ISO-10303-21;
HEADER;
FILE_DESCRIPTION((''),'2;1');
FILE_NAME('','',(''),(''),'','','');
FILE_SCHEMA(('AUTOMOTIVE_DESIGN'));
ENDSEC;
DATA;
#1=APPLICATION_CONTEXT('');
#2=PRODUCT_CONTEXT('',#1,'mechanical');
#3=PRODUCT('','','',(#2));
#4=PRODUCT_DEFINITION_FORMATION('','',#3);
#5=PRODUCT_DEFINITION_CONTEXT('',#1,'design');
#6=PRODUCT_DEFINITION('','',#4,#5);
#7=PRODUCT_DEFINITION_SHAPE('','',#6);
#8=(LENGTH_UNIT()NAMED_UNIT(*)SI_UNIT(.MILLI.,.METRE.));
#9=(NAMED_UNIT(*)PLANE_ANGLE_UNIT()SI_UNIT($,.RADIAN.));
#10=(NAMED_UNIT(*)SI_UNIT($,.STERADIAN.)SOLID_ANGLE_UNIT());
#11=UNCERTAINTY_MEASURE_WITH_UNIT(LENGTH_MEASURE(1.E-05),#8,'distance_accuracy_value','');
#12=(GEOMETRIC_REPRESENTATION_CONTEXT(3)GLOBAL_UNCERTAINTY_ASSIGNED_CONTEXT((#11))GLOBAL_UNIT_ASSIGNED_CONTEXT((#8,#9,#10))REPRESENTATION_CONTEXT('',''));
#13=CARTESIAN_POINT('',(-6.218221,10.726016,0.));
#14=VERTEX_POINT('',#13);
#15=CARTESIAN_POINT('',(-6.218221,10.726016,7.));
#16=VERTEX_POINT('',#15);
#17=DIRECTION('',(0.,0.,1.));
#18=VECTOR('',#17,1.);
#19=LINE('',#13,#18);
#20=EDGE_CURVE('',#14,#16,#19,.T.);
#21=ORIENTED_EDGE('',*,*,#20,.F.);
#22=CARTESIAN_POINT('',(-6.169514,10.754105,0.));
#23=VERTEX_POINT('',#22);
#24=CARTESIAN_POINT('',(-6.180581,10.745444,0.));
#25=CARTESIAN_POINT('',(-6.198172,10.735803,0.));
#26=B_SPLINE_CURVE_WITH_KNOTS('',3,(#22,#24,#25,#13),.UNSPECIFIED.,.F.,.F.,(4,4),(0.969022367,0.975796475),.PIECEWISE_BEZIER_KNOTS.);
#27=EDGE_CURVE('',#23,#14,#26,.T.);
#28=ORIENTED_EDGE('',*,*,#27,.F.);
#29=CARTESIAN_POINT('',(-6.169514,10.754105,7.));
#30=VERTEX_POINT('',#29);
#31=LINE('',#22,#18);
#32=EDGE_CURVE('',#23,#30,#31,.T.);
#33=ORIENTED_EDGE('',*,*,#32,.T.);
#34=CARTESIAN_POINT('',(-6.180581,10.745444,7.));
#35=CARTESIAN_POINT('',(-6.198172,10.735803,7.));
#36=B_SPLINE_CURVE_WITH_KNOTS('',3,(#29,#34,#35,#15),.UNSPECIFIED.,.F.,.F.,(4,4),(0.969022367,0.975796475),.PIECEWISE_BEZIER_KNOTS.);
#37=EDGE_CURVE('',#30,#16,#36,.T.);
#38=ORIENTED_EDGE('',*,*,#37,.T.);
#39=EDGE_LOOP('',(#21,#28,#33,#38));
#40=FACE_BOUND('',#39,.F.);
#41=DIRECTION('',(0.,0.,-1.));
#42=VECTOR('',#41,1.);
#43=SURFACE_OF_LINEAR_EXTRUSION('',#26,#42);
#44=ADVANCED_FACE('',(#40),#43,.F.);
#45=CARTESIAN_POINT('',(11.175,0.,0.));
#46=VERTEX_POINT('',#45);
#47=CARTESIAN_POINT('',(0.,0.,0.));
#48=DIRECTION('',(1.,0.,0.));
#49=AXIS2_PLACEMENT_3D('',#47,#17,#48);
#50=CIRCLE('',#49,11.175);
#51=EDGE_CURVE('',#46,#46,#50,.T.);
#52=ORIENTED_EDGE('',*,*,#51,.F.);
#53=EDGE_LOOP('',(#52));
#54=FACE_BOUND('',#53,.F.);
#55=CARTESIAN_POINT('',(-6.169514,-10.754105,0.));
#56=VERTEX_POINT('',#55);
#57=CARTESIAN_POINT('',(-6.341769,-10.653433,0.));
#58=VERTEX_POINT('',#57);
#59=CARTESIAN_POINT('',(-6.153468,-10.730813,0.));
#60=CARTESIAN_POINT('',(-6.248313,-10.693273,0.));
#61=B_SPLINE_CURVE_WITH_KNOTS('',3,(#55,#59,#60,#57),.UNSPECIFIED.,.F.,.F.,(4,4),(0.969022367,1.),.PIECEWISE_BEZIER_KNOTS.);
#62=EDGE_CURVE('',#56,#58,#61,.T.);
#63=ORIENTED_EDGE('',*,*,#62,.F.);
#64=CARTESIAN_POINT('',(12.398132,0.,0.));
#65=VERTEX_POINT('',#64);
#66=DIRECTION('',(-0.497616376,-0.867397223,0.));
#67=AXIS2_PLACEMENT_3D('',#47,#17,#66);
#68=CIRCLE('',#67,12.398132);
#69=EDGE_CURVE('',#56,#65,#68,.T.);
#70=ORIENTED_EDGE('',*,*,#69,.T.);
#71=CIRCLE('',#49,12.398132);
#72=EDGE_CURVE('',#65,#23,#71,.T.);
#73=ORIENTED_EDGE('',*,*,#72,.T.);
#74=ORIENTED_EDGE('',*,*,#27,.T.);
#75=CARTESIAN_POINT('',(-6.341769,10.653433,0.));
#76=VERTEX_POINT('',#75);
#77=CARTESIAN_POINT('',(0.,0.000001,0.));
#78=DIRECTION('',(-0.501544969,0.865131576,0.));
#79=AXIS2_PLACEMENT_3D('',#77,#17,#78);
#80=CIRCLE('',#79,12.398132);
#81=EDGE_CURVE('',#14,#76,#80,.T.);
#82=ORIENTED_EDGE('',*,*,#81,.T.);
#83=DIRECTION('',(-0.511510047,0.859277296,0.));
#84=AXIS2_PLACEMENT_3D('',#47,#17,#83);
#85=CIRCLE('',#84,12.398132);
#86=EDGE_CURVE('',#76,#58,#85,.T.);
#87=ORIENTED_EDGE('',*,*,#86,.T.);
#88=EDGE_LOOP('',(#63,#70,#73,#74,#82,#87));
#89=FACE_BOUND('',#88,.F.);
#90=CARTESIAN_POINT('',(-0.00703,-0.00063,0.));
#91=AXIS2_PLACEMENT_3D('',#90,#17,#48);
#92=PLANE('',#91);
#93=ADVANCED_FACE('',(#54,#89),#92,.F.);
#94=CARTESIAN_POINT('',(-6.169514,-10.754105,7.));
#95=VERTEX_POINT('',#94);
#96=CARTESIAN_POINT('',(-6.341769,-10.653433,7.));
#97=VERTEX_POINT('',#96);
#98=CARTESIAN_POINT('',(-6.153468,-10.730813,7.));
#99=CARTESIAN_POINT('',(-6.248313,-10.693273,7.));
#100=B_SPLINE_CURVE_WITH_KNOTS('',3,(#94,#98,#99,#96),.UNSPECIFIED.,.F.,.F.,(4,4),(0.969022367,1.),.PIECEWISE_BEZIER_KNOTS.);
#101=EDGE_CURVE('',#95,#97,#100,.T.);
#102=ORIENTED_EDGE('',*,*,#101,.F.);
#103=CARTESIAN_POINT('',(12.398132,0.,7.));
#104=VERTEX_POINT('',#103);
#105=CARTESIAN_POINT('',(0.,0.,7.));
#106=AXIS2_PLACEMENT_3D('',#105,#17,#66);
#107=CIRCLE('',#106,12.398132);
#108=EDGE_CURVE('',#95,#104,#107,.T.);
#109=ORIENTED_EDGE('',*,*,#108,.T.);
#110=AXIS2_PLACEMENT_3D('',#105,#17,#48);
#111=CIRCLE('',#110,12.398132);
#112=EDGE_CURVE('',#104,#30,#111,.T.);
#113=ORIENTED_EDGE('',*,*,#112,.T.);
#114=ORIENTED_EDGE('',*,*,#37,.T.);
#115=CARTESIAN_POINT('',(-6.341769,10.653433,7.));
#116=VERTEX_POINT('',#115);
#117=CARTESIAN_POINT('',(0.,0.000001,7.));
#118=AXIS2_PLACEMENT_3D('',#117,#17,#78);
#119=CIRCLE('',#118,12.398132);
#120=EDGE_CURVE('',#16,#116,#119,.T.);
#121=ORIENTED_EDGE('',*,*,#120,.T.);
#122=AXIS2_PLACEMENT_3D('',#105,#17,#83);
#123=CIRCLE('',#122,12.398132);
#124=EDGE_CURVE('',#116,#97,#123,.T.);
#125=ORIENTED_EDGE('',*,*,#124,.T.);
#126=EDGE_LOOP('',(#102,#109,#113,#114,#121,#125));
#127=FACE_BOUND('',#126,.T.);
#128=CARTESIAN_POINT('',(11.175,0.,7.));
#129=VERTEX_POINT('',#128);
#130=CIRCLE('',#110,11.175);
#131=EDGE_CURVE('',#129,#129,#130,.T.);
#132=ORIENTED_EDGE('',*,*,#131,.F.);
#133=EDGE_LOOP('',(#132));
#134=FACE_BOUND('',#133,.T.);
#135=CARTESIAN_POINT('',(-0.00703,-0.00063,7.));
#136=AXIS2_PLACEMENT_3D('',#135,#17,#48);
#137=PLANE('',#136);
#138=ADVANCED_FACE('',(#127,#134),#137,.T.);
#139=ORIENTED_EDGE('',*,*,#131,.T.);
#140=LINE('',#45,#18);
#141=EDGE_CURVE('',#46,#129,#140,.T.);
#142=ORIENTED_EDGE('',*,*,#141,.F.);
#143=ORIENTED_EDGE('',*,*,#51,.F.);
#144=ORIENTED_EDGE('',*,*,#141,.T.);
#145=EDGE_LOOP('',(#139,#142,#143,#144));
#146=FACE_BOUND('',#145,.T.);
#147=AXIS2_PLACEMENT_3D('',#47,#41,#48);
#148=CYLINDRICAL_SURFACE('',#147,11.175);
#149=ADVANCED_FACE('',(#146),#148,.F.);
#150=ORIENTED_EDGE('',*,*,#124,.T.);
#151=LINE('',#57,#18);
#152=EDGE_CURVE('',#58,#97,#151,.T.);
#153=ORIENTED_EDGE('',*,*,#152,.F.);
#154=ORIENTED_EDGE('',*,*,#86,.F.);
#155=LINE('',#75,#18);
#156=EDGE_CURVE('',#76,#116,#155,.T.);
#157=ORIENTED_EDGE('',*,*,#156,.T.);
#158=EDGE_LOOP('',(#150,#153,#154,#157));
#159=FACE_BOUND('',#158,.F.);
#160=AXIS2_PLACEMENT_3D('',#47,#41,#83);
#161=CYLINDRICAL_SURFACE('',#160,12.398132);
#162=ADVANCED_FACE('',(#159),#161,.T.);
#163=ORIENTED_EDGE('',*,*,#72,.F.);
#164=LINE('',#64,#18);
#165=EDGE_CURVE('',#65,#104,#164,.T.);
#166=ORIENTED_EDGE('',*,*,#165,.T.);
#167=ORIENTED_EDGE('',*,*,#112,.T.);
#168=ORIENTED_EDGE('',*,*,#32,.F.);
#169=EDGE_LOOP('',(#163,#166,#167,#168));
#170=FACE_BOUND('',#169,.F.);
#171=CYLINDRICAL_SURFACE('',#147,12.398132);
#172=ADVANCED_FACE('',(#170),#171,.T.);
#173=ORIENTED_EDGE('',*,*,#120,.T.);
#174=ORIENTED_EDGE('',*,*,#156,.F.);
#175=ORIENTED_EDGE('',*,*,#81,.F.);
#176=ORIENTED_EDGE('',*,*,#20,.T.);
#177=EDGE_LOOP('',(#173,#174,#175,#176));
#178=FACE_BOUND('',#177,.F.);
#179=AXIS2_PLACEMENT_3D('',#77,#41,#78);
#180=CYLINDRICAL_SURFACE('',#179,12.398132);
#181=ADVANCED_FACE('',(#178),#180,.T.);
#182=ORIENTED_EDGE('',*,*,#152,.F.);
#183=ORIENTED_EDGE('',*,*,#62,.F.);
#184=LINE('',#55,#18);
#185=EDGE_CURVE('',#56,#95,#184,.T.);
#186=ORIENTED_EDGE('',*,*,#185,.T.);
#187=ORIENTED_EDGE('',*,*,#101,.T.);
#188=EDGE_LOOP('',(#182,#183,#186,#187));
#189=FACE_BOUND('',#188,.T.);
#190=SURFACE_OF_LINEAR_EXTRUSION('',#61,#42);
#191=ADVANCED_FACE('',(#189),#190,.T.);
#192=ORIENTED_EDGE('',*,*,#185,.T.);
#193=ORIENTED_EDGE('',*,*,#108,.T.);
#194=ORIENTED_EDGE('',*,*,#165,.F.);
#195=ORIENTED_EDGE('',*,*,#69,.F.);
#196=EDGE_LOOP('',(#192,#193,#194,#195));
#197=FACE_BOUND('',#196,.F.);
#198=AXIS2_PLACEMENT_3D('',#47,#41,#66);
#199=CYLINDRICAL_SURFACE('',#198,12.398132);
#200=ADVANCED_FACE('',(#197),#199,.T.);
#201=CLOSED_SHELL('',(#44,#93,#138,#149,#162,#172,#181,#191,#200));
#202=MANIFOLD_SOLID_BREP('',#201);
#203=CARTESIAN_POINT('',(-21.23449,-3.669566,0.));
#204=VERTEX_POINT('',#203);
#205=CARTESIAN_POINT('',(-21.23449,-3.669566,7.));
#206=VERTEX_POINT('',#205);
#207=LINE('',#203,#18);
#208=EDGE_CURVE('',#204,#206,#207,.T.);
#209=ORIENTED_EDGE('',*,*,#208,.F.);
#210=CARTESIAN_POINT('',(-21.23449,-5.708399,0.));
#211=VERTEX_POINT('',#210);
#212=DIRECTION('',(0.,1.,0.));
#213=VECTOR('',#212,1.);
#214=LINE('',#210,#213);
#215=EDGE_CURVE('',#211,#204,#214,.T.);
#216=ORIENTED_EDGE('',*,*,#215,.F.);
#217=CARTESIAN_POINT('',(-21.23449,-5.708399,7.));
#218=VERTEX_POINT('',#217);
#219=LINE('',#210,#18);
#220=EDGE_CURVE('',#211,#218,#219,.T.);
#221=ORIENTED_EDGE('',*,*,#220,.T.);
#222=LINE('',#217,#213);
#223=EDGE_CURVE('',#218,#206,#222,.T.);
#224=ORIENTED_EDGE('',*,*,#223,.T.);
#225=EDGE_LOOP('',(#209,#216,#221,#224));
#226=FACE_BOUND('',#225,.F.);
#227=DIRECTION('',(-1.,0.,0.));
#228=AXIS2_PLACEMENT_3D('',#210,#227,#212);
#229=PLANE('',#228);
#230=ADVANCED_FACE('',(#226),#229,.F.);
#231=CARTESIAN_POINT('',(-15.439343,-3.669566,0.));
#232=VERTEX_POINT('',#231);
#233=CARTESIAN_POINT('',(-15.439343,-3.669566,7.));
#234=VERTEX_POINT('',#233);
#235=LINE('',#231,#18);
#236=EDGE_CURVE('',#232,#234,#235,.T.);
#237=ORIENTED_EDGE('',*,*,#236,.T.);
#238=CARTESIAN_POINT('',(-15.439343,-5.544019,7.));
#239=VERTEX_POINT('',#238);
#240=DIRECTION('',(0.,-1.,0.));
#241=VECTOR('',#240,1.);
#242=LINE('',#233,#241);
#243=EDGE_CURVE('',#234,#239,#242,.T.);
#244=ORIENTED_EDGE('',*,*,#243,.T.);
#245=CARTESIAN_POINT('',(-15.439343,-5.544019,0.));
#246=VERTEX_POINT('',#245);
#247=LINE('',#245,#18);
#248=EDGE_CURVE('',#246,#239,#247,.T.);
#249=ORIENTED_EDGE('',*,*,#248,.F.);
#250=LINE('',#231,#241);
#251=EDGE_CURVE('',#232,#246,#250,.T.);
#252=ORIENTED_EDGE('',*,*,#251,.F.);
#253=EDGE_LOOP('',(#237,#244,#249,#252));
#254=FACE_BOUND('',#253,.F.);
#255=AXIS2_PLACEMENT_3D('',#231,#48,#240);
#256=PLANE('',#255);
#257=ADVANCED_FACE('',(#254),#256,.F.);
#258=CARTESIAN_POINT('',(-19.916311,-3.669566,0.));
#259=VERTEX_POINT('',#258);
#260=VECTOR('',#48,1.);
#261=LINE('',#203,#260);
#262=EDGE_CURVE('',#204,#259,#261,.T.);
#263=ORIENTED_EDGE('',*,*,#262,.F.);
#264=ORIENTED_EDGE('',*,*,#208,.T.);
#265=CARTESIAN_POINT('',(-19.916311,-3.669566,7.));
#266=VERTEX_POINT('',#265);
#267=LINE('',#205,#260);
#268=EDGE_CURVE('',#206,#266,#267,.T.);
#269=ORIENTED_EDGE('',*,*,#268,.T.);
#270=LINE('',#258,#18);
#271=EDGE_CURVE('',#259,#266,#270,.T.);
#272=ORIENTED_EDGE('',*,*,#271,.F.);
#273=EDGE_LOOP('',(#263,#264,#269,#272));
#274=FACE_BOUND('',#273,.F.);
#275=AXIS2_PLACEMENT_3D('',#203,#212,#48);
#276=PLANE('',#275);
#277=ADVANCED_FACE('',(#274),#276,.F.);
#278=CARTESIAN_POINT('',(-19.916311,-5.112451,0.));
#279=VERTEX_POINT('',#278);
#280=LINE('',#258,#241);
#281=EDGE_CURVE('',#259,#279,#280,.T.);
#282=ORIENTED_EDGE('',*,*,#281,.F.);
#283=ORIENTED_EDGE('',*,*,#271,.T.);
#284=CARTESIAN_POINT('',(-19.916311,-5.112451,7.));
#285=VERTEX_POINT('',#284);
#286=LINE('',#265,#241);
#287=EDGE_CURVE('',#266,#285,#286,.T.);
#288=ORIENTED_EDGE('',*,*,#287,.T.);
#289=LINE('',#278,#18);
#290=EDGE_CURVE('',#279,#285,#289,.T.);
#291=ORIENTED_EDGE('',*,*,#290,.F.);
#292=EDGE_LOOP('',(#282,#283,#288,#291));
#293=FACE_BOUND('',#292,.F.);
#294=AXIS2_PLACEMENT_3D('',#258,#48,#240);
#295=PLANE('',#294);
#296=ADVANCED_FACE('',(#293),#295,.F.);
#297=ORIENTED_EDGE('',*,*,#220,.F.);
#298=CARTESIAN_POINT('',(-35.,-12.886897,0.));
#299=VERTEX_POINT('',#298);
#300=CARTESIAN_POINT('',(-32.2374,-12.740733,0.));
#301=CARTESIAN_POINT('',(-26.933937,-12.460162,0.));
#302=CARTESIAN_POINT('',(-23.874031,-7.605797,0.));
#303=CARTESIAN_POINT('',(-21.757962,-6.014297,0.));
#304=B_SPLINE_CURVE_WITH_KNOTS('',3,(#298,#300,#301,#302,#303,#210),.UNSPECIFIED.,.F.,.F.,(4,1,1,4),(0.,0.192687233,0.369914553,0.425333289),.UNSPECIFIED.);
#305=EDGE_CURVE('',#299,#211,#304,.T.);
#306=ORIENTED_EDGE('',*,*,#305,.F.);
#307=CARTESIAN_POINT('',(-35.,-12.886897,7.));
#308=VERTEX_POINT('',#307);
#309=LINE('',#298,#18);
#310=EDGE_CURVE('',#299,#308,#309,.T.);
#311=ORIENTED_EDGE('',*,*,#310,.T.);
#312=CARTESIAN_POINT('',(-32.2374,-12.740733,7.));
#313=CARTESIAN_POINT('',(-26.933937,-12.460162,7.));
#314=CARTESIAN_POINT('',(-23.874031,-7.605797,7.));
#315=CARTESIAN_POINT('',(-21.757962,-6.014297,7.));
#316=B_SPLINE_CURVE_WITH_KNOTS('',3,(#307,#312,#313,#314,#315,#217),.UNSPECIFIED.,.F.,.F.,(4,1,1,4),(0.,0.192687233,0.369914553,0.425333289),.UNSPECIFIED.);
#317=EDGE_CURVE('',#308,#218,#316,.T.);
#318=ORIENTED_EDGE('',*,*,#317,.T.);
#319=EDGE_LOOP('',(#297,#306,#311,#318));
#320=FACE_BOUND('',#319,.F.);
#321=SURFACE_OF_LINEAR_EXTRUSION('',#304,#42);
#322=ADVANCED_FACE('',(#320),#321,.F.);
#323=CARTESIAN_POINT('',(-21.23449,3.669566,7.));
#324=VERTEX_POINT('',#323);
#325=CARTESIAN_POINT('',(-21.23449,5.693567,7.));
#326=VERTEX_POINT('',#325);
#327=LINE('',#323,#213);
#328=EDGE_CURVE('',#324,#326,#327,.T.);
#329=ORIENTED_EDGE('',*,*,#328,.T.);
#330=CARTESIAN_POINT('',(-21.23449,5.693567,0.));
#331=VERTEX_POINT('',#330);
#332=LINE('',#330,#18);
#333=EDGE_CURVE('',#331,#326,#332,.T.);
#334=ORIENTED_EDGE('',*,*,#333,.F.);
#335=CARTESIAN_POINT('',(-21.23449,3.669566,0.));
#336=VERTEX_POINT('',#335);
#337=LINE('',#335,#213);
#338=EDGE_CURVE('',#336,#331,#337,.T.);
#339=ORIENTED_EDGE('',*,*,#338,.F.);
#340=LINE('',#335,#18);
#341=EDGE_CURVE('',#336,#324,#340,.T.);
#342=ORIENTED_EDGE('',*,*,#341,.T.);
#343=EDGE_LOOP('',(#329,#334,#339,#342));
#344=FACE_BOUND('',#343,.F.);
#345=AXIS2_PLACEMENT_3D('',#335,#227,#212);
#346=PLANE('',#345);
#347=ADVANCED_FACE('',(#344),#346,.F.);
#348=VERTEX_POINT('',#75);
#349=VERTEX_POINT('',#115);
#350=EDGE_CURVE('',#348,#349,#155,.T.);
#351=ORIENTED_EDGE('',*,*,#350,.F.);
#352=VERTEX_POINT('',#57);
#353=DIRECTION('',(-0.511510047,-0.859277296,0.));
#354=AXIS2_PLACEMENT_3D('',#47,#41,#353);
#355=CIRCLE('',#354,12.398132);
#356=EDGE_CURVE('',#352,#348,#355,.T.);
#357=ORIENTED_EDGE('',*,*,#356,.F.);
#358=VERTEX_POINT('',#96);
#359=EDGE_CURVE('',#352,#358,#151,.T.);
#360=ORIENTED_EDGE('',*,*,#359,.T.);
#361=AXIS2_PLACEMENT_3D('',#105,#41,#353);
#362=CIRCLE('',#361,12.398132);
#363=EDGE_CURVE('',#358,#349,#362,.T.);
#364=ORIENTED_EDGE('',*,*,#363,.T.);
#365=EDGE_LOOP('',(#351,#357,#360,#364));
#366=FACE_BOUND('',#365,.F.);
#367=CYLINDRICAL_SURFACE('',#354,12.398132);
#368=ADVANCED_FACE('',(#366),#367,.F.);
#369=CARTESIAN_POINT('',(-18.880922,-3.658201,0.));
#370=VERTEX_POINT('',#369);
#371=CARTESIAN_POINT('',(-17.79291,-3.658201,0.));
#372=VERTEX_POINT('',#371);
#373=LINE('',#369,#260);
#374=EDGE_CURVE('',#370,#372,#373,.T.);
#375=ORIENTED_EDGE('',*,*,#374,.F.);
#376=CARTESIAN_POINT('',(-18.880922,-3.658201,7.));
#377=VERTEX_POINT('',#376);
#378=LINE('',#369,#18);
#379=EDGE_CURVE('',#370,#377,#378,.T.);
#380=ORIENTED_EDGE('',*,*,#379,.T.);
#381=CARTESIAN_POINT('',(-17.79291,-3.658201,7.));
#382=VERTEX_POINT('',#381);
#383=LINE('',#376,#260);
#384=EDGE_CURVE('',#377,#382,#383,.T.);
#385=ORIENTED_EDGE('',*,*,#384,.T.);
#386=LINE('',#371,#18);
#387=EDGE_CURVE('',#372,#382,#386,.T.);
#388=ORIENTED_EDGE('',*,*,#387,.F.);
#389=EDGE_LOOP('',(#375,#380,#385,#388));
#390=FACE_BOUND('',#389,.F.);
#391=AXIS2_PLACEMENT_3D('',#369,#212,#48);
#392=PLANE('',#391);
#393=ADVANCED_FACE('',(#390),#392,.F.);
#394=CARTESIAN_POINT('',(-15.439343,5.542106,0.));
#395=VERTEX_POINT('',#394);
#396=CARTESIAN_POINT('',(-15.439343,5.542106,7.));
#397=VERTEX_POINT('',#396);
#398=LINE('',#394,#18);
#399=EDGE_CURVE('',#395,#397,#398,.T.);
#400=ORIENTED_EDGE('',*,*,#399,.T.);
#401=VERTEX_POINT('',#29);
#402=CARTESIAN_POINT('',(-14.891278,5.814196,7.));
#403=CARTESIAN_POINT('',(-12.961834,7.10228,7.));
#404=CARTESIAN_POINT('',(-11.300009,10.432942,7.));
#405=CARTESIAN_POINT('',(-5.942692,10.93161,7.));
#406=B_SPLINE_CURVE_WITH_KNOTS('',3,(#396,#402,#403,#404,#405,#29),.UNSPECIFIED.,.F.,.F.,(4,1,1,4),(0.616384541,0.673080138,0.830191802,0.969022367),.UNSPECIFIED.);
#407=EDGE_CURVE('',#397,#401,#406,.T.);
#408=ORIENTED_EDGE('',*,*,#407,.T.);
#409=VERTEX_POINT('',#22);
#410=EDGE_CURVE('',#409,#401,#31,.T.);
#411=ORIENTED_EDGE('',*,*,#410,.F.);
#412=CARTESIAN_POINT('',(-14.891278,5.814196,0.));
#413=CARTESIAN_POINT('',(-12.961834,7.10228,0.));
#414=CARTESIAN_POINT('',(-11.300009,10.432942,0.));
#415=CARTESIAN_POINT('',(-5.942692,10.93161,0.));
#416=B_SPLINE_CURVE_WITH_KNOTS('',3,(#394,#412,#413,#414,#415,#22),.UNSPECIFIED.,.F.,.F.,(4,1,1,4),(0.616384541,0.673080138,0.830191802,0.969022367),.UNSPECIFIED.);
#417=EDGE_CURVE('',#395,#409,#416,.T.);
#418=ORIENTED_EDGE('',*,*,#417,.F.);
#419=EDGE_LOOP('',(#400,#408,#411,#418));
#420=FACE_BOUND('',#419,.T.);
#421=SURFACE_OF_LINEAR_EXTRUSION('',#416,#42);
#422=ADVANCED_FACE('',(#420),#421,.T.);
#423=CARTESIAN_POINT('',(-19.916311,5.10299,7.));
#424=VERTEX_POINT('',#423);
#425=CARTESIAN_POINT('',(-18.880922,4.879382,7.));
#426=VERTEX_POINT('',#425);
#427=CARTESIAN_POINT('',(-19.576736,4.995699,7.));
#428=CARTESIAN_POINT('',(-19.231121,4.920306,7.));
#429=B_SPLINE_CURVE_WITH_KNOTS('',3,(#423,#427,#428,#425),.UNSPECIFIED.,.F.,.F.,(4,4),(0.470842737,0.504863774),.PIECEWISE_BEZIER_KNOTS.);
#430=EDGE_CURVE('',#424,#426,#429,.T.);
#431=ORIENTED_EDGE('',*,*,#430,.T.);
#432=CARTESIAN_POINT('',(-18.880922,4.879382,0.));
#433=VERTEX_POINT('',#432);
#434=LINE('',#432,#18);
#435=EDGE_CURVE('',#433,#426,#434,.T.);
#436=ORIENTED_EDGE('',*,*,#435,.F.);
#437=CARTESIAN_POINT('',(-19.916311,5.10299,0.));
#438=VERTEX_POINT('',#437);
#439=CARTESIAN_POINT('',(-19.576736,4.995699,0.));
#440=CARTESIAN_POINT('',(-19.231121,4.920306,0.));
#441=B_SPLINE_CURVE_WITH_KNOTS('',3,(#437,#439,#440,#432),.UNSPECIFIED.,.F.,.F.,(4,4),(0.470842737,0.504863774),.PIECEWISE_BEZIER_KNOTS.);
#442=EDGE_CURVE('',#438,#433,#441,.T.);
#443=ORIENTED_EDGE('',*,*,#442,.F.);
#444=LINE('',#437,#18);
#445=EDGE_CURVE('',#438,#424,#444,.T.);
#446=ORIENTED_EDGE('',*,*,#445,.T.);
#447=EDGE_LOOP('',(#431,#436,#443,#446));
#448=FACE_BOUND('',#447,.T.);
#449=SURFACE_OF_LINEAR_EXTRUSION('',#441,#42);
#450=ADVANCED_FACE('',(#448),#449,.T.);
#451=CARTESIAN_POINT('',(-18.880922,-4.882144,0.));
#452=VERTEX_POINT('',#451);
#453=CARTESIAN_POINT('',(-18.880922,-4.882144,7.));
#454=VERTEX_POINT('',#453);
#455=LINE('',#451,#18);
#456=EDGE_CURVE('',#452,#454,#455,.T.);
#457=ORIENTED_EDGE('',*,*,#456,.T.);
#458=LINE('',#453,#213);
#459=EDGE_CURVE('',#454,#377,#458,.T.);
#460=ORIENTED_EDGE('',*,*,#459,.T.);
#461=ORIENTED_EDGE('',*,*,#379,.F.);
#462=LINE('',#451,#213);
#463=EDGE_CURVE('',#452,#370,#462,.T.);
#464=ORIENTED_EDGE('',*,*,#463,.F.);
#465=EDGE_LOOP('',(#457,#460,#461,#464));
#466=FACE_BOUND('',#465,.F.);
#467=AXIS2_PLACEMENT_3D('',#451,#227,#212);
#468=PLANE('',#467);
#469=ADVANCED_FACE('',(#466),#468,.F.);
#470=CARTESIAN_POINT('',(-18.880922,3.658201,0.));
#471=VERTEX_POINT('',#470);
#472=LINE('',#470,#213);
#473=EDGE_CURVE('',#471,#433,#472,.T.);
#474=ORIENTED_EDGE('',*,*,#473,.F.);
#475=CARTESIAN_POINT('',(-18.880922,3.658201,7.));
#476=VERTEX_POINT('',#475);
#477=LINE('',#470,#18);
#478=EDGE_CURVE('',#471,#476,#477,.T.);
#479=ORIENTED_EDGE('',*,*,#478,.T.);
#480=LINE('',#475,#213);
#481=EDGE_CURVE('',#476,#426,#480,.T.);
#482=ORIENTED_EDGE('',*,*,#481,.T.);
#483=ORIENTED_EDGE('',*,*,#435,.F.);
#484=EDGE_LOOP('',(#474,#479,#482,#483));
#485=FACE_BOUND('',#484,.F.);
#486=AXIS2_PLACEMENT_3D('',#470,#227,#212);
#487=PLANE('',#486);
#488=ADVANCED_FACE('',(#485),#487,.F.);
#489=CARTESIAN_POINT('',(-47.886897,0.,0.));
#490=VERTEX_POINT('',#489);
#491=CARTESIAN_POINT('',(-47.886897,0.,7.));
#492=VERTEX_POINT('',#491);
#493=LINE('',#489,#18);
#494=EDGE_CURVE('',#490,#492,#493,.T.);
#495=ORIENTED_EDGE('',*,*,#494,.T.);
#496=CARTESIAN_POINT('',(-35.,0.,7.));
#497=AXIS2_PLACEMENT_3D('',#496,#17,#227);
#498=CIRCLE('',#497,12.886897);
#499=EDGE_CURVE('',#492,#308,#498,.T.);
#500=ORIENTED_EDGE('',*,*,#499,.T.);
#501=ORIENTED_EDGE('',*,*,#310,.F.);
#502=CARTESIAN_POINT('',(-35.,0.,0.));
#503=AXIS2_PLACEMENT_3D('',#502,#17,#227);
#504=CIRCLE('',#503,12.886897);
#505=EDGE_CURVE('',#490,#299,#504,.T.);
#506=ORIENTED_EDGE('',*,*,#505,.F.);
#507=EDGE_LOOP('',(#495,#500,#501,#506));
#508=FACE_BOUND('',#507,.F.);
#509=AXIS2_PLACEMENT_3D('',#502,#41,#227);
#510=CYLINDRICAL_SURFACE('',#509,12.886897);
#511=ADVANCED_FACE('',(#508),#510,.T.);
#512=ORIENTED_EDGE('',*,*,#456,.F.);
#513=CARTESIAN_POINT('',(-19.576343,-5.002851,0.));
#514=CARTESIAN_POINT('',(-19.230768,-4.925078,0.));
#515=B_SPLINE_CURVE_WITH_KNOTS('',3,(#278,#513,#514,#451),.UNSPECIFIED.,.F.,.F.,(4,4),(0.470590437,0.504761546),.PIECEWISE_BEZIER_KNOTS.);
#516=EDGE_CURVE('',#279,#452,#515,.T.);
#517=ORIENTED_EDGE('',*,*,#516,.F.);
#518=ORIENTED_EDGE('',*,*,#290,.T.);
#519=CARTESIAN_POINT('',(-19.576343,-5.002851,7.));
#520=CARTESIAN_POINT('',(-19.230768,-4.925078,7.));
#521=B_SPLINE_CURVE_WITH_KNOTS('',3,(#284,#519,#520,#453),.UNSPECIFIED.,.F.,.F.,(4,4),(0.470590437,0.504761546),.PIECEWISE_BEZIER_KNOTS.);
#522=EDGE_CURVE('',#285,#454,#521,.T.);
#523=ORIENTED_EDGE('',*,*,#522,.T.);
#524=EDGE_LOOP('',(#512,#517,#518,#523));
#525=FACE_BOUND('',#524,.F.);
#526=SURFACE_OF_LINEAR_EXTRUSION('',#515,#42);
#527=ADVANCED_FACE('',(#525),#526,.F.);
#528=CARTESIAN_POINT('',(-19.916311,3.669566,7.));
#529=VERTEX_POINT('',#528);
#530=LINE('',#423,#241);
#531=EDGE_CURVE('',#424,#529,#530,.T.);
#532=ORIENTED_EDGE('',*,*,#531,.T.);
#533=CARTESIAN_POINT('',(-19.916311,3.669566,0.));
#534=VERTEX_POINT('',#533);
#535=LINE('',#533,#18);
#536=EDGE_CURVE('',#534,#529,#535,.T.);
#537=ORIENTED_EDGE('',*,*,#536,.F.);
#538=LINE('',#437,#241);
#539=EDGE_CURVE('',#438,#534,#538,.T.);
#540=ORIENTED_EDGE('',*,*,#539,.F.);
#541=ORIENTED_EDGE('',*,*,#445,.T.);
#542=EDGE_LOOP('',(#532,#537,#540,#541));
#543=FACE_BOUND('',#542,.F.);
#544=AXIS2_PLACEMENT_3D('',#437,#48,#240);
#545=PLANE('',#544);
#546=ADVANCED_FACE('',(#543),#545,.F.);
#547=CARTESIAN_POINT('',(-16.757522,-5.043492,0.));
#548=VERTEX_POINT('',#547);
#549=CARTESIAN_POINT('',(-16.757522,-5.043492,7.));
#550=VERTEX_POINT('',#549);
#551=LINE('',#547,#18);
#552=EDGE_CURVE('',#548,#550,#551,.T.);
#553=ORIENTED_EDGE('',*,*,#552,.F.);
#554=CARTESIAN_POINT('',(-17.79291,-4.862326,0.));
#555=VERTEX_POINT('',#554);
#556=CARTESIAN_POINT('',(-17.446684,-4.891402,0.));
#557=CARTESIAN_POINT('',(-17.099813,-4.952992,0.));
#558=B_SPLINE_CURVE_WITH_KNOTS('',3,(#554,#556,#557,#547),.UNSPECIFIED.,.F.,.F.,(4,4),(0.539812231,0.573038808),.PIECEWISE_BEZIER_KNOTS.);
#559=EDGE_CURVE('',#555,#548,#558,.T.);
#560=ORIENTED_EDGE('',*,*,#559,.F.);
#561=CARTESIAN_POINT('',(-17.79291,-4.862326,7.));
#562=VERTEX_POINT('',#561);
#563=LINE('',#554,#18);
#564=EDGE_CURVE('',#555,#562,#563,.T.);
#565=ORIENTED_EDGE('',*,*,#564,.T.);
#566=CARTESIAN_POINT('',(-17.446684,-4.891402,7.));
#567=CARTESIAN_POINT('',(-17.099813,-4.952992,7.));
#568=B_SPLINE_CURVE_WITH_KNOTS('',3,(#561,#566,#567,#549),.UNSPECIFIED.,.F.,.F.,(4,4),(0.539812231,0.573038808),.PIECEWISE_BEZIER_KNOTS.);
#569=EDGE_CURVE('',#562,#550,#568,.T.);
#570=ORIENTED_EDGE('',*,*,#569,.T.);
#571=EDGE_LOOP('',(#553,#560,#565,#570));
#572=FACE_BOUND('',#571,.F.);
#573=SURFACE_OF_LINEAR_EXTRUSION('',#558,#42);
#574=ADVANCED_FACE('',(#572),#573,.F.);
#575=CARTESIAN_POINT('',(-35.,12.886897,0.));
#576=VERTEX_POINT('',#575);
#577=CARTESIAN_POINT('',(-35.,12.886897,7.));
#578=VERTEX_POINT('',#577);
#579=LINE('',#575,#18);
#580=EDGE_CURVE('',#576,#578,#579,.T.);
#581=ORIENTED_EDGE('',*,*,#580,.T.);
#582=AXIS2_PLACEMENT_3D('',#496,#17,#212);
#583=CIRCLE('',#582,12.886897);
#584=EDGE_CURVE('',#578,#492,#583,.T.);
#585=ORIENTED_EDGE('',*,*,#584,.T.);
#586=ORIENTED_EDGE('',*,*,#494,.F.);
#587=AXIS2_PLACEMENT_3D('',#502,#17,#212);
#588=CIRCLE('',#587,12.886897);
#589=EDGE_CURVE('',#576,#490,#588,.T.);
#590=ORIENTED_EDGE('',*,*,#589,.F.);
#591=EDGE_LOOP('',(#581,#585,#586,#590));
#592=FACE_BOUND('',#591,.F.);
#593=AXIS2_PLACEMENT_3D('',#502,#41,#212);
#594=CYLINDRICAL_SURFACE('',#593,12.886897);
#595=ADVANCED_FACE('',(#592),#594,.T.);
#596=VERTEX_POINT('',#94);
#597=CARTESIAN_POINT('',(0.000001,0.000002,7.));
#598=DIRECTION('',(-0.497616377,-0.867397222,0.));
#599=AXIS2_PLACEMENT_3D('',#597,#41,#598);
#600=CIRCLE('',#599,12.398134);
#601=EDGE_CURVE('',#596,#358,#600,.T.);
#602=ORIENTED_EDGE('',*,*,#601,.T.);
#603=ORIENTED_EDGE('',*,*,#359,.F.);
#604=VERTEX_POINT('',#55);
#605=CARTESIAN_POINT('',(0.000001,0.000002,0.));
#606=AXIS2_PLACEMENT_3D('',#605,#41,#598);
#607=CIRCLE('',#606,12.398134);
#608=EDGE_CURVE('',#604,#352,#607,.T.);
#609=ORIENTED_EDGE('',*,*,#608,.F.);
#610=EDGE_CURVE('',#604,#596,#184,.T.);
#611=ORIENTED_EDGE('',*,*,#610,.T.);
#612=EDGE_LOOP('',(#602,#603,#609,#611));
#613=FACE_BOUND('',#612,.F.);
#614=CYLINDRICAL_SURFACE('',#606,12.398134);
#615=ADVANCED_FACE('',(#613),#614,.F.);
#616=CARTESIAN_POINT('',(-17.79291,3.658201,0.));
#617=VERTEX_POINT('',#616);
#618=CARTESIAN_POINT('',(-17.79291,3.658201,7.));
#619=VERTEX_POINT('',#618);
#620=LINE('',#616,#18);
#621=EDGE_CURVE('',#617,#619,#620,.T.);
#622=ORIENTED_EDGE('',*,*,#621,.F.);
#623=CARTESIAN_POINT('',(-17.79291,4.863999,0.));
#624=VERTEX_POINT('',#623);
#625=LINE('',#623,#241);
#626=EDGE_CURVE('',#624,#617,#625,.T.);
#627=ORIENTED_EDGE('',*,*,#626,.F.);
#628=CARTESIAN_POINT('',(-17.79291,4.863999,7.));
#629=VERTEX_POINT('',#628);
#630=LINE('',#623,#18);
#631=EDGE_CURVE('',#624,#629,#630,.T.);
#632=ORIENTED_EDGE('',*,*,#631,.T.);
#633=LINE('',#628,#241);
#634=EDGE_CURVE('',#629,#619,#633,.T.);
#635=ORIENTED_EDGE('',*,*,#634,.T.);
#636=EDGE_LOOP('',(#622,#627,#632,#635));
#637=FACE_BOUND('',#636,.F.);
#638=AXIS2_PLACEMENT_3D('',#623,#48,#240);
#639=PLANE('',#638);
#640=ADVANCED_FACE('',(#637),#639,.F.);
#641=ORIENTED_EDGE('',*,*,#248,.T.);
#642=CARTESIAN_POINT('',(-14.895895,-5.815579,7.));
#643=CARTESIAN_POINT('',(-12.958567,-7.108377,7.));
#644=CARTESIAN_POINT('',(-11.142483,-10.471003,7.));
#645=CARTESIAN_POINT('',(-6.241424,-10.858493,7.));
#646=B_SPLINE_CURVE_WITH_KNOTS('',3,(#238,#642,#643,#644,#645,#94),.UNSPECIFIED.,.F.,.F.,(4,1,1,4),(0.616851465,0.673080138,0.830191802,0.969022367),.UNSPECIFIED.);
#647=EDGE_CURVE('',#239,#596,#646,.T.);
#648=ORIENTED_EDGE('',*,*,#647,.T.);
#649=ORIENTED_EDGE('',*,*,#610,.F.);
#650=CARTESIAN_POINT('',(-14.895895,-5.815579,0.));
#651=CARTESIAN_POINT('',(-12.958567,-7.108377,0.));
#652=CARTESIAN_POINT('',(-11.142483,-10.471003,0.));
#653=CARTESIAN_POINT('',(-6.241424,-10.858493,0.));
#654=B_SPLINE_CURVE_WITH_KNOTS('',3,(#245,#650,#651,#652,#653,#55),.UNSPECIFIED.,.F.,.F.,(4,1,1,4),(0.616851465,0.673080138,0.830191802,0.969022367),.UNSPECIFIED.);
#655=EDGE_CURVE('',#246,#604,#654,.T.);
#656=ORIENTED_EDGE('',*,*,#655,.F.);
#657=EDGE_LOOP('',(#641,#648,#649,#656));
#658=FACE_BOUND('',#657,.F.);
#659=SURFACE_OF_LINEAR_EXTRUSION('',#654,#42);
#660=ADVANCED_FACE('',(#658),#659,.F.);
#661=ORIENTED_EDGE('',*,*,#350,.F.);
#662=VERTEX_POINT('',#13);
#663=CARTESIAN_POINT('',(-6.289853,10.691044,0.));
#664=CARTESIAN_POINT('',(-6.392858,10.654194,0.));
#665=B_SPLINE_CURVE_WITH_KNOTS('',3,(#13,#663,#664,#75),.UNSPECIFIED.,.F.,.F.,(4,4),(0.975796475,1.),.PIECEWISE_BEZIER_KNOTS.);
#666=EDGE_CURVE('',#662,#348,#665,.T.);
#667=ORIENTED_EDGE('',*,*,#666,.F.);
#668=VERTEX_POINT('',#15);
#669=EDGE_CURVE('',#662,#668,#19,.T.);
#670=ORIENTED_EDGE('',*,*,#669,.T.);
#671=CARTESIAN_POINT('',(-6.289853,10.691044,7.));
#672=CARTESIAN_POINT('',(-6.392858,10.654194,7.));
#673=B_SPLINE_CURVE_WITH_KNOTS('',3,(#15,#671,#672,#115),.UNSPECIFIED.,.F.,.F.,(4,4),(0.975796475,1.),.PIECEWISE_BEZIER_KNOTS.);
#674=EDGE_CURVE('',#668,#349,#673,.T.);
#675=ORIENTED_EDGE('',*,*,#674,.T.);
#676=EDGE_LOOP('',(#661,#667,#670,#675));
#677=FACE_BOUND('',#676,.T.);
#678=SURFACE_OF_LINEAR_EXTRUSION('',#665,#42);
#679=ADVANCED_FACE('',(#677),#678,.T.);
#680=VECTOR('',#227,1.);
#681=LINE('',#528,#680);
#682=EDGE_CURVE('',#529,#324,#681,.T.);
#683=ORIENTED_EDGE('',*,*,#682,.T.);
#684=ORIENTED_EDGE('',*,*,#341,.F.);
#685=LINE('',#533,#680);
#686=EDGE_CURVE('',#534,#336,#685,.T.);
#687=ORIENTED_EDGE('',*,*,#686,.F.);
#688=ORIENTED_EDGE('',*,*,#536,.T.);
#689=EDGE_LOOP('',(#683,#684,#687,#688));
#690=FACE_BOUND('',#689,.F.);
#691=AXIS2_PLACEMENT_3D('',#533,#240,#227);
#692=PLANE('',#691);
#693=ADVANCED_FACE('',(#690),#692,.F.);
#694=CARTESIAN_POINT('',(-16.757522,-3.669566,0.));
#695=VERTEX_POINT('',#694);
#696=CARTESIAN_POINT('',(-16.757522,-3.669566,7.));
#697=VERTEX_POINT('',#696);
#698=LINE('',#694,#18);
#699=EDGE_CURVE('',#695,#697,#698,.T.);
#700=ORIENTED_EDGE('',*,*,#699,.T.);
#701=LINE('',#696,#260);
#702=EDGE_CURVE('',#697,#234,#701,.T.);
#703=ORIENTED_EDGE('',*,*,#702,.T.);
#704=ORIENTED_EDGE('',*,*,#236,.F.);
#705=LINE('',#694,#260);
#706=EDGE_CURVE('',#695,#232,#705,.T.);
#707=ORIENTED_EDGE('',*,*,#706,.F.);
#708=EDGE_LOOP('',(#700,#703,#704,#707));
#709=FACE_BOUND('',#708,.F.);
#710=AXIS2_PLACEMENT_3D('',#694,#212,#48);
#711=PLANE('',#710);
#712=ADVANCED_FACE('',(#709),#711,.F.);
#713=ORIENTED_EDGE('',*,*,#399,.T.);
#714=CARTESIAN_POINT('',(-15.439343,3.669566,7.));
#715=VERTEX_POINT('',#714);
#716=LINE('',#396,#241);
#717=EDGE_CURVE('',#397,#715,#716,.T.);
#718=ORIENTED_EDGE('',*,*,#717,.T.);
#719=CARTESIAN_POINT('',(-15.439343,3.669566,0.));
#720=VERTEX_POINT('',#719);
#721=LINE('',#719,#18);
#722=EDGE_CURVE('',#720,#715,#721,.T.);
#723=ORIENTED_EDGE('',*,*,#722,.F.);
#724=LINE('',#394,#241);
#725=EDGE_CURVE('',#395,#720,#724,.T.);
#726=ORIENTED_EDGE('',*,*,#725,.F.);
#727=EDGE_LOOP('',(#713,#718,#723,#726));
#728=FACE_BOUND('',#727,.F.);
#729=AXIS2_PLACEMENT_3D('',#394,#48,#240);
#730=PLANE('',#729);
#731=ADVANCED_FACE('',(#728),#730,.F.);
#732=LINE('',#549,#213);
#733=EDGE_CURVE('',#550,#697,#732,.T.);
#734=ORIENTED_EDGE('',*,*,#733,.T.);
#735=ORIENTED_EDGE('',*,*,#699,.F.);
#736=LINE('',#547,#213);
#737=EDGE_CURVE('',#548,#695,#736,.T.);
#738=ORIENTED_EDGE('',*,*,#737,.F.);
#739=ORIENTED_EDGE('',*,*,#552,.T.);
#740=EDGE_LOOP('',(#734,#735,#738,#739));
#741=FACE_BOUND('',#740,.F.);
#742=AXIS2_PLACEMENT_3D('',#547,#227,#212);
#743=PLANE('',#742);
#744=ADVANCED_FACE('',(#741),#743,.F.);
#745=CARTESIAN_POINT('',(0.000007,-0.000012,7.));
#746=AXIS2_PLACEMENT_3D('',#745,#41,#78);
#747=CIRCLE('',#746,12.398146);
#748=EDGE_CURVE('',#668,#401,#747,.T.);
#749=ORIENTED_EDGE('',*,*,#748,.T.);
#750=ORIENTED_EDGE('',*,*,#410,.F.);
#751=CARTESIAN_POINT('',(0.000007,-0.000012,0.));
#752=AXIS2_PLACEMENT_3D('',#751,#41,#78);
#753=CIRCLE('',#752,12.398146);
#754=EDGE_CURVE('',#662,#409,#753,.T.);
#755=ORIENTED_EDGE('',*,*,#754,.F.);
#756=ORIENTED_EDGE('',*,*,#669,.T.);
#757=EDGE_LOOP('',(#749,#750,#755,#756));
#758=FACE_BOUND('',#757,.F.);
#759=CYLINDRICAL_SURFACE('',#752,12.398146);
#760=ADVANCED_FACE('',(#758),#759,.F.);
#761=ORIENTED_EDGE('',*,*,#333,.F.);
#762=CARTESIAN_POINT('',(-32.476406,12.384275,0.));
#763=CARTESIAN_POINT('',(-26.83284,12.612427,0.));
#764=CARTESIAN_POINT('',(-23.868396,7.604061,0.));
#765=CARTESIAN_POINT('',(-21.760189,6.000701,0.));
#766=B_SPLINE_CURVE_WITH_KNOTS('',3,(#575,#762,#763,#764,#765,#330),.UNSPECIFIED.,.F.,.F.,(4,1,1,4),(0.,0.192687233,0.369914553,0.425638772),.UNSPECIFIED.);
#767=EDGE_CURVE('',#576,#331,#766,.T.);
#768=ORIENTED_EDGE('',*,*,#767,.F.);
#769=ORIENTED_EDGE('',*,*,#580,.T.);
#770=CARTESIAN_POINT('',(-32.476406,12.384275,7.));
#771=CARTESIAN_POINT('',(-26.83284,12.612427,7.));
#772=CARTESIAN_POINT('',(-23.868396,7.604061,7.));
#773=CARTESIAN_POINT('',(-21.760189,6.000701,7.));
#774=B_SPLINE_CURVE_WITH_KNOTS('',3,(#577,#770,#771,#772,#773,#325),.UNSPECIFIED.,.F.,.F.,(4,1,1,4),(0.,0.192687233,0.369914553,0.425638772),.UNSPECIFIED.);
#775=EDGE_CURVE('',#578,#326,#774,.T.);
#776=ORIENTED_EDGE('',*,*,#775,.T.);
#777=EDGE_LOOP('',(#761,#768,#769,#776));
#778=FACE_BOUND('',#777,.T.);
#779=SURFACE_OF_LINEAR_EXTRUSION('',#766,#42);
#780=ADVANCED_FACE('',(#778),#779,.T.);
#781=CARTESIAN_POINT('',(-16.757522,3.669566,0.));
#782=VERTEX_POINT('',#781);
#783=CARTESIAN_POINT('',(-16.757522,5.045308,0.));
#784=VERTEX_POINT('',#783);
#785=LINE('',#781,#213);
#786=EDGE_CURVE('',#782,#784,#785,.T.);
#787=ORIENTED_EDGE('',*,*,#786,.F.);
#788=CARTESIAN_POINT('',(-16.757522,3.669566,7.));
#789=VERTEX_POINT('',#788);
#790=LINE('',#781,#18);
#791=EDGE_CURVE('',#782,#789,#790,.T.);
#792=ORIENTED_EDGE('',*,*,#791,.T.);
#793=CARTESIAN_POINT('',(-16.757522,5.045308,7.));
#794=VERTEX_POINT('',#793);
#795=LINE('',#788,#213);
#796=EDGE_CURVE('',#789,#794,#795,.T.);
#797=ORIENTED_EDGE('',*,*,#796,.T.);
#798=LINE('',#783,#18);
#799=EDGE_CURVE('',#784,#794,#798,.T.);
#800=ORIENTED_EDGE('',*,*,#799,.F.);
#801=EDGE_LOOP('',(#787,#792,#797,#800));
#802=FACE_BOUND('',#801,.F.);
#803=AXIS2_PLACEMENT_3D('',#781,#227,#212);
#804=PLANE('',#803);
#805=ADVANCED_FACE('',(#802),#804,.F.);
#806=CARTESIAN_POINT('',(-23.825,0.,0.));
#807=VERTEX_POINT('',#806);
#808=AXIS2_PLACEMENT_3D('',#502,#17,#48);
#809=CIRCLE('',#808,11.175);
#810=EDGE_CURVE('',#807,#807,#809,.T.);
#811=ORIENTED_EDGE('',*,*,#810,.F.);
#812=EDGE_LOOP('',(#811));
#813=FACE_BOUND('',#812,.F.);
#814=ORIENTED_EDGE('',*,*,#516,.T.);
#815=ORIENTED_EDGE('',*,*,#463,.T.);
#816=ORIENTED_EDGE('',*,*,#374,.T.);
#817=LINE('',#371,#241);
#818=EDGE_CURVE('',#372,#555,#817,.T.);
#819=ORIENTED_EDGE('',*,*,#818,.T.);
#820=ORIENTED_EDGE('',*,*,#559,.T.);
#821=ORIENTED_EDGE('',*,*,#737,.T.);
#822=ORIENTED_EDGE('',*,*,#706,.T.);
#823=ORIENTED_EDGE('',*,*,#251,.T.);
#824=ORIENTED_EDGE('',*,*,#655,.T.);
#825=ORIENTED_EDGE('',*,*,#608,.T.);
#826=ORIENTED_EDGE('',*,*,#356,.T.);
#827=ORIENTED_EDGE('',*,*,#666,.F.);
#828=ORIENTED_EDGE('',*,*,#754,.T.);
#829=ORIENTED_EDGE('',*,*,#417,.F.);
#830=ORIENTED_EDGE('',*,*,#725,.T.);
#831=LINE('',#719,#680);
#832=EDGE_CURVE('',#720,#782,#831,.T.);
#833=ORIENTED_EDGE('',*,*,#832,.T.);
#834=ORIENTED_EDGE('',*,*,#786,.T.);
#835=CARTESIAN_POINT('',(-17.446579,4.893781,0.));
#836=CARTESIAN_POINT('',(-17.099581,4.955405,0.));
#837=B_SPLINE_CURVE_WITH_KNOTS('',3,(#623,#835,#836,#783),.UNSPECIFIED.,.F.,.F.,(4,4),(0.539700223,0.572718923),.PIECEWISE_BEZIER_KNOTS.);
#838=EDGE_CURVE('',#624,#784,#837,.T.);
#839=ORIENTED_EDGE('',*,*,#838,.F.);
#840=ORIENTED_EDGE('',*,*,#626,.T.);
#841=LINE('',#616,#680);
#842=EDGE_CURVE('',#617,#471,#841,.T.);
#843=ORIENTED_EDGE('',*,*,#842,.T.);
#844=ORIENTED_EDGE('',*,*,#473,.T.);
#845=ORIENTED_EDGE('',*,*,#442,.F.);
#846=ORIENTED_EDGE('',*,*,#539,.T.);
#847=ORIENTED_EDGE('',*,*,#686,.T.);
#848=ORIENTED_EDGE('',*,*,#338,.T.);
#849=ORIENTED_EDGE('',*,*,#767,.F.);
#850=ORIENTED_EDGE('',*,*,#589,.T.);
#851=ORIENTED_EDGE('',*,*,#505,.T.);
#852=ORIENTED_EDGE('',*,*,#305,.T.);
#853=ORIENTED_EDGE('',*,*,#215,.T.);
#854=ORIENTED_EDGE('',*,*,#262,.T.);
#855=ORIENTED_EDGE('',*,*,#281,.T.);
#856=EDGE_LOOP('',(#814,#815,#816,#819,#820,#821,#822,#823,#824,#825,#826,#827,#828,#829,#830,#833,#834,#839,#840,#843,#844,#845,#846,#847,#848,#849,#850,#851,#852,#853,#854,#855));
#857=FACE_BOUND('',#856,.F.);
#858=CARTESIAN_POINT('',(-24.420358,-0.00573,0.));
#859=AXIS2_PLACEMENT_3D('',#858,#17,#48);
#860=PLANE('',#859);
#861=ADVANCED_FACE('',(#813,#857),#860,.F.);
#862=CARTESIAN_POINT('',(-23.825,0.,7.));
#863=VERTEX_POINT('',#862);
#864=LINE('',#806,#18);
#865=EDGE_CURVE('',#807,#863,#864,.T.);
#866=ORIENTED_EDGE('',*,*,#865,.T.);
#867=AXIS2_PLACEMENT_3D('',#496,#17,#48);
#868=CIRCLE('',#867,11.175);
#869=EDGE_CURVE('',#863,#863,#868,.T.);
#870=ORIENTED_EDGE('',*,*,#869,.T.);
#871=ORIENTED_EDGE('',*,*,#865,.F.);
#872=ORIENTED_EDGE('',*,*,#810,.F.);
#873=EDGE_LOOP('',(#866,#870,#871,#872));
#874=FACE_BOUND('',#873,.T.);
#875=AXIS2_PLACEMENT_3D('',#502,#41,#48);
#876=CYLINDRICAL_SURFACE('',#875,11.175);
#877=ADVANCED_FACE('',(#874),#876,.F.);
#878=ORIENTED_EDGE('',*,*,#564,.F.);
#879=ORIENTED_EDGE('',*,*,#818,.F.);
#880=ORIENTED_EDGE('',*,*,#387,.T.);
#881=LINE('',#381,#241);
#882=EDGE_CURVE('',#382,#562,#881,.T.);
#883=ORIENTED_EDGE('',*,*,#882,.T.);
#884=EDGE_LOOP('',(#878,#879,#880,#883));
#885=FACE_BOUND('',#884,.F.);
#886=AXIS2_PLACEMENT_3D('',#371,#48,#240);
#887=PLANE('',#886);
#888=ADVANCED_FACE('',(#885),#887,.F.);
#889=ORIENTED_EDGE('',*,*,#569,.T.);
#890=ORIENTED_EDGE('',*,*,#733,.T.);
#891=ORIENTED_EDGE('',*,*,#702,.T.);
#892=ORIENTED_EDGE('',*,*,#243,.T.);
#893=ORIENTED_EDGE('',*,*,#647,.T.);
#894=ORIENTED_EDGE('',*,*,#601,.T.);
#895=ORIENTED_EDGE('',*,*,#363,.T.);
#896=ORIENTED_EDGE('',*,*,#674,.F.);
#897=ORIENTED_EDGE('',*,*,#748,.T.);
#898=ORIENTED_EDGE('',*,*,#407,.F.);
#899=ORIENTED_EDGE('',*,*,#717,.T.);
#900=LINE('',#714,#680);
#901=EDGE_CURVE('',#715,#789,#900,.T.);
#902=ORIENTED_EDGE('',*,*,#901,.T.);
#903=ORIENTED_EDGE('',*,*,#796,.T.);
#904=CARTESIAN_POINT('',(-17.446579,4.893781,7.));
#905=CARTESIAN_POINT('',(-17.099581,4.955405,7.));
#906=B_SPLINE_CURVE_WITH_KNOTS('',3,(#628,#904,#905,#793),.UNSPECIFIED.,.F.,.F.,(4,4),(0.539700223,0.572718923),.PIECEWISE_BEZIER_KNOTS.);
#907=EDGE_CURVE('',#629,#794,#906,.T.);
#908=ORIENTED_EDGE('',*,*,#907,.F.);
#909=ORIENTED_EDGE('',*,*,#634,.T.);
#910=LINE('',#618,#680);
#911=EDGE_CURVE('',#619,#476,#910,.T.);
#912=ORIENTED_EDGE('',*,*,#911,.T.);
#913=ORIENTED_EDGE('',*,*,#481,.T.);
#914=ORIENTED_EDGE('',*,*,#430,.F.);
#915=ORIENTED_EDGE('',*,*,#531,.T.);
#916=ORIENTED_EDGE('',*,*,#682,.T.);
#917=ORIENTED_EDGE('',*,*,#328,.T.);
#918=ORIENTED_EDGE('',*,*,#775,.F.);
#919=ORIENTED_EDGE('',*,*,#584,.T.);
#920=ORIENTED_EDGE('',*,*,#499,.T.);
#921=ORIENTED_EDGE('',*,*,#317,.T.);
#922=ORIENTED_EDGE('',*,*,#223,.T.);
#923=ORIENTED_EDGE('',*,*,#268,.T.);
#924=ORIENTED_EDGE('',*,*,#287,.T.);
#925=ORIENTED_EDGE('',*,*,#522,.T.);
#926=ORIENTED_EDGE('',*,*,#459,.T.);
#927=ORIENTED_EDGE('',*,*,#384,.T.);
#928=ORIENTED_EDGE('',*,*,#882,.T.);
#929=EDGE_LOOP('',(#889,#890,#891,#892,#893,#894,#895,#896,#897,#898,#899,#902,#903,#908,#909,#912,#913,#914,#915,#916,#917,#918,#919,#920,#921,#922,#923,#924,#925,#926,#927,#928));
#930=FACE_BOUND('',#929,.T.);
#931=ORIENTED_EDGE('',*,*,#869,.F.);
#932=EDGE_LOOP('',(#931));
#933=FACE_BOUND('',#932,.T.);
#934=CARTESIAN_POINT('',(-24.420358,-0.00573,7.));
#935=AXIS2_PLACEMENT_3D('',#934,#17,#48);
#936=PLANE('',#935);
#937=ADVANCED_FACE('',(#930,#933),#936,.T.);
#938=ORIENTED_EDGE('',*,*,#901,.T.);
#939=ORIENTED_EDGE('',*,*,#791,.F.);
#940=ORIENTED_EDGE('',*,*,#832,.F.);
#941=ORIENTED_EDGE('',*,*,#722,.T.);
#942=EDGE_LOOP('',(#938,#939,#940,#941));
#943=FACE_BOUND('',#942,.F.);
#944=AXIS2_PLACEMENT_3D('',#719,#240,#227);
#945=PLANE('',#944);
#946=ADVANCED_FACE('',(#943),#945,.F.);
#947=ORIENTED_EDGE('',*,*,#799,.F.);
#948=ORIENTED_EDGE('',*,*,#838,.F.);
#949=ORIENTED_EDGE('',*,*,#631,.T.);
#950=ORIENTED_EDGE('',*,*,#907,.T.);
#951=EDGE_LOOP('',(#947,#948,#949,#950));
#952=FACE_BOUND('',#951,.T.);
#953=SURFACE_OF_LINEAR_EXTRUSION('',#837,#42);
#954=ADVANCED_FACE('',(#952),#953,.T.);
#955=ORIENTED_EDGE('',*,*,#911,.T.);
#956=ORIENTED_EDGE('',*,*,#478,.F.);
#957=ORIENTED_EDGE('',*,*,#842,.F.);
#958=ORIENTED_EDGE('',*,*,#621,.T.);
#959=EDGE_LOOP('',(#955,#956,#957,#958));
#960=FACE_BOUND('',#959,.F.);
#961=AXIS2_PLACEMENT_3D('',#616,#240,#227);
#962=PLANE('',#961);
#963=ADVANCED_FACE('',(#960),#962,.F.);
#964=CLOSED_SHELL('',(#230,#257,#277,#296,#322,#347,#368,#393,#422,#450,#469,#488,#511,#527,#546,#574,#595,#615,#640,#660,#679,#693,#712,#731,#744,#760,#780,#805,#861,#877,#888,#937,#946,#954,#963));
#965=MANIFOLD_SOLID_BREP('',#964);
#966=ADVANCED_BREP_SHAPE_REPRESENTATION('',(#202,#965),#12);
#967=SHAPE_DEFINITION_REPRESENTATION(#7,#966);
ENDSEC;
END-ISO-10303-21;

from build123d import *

# Parameters (mm, degrees)
F0_R     = 11.175
F1_DEPTH = 7
F2_DEPTH = 7


with BuildPart() as f1:
    # F0 (on Top) → F1 (new body)
    with BuildSketch(Plane.XY):
        with BuildLine():
            ThreePointArc((-6.3417691643, -10.6534334759), (-12.398132156, 0), (-6.3417691643, 10.6534334759))
            add(Edge.make_bspline(
                [(-6.2182208185, 10.7260156074), (-6.2898533195, 10.6910439898), (-6.3928576009, 10.6541938208), (-6.3417691643, 10.6534334759)],
                knots=[0.9757964746, 0.9757964746, 0.9757964746, 0.9757964746, 1, 1, 1, 1], degree=3))
            ThreePointArc((-6.2182208185, 10.7260156074), (-6.1938831268, 10.7400881174), (-6.1695135877, 10.7541054045))
            add(Edge.make_bspline(
                [(-15.4393427074, 5.5421058876), (-14.8912780033, 5.8141958954), (-12.9618337257, 7.102279887), (-11.3000086923, 10.432941862), (-5.9426922893, 10.9316099021), (-6.1695135877, 10.7541054045)],
                knots=[0.6163845414, 0.6163845414, 0.6163845414, 0.6163845414, 0.673080138, 0.8301918023, 0.9690223671, 0.9690223671, 0.9690223671, 0.9690223671], degree=3))
            Line((-15.4393427074, 5.5421058876), (-15.4393427074, 3.6695655435))
            Line((-15.4393427074, 3.6695655435), (-16.7575217783, 3.6695655435))
            Line((-16.7575217783, 3.6695655435), (-16.7575217783, 5.0453083157))
            add(Edge.make_bspline(
                [(-17.7929103374, 4.8639994661), (-17.4465794205, 4.8937805268), (-17.0995805588, 4.955405242), (-16.7575217783, 5.0453083157)],
                knots=[0.5397002226, 0.5397002226, 0.5397002226, 0.5397002226, 0.5727189225, 0.5727189225, 0.5727189225, 0.5727189225], degree=3))
            Line((-17.7929103374, 4.8639994661), (-17.7929103374, 3.6582010798))
            Line((-17.7929103374, 3.6582010798), (-18.8809223473, 3.6582010798))
            Line((-18.8809223473, 3.6582010798), (-18.8809223473, 4.8793821001))
            add(Edge.make_bspline(
                [(-19.9163109064, 5.1029895365), (-19.5767359601, 4.9956990886), (-19.2311209543, 4.920305821), (-18.8809223473, 4.8793821001)],
                knots=[0.470842737, 0.470842737, 0.470842737, 0.470842737, 0.5048637742, 0.5048637742, 0.5048637742, 0.5048637742], degree=3))
            Line((-19.9163109064, 5.1029895365), (-19.9163109064, 3.6695655435))
            Line((-19.9163109064, 3.6695655435), (-21.2344899774, 3.6695655435))
            Line((-21.2344899774, 3.6695655435), (-21.2344899774, 5.6935674142))
            add(Edge.make_bspline(
                [(-35, 12.8868968785), (-32.4764058242, 12.3842750738), (-26.8328403096, 12.6124271474), (-23.8683963588, 7.6040613235), (-21.7601893659, 6.0007013665), (-21.2344899774, 5.6935674142)],
                knots=[0, 0, 0, 0, 0.1926872335, 0.3699145532, 0.4256387724, 0.4256387724, 0.4256387724, 0.4256387724], degree=3))
            ThreePointArc((-35, 12.8868968785), (-44.1124121712, 9.1124121712), (-47.8868968785, 0))
            ThreePointArc((-47.8868968785, 0), (-44.1124121712, -9.1124121712), (-35, -12.8868968785))
            add(Edge.make_bspline(
                [(-35, -12.8868968785), (-32.2373997542, -12.7407331929), (-26.9339365175, -12.4601619558), (-23.8740309058, -7.6057967092), (-21.7579622329, -6.0142972002), (-21.2344899774, -5.7083986722)],
                knots=[0, 0, 0, 0, 0.1926872335, 0.3699145532, 0.4253332887, 0.4253332887, 0.4253332887, 0.4253332887], degree=3))
            Line((-21.2344899774, -5.7083986722), (-21.2344899774, -3.6695655435))
            Line((-21.2344899774, -3.6695655435), (-19.9163109064, -3.6695655435))
            Line((-19.9163109064, -3.6695655435), (-19.9163109064, -5.1124505346))
            add(Edge.make_bspline(
                [(-19.9163109064, -5.1124505346), (-19.5763428722, -5.0028512158), (-19.230767931, -4.92507808), (-18.8809223473, -4.8821444426)],
                knots=[0.4705904371, 0.4705904371, 0.4705904371, 0.4705904371, 0.5047615456, 0.5047615456, 0.5047615456, 0.5047615456], degree=3))
            Line((-18.8809223473, -4.8821444426), (-18.8809223473, -3.6582010798))
            Line((-18.8809223473, -3.6582010798), (-17.7929103374, -3.6582010798))
            Line((-17.7929103374, -3.6582010798), (-17.7929103374, -4.8623260426))
            add(Edge.make_bspline(
                [(-17.7929103374, -4.8623260426), (-17.4466841273, -4.8914015711), (-17.0998134145, -4.9529921722), (-16.7575217783, -5.0434919944)],
                knots=[0.5398122313, 0.5398122313, 0.5398122313, 0.5398122313, 0.5730388079, 0.5730388079, 0.5730388079, 0.5730388079], degree=3))
            Line((-16.7575217783, -5.0434919944), (-16.7575217783, -3.6695655435))
            Line((-16.7575217783, -3.6695655435), (-15.4393427074, -3.6695655435))
            Line((-15.4393427074, -3.6695655435), (-15.4393427074, -5.5440194618))
            add(Edge.make_bspline(
                [(-15.4393427074, -5.5440194618), (-14.8958951228, -5.8155793715), (-12.9585668754, -7.1083770223), (-11.142482926, -10.471002969), (-6.2414235549, -10.8584930729), (-6.1695135877, -10.7541054045)],
                knots=[0.616851465, 0.616851465, 0.616851465, 0.616851465, 0.673080138, 0.8301918023, 0.9690223671, 0.9690223671, 0.9690223671, 0.9690223671], degree=3))
            ThreePointArc((-6.1695135877, -10.7541054045), (-6.2558438866, -10.7041159478), (-6.3417691643, -10.6534334759))
        make_face()
        with Locations((-35, 0)):
            Circle(F0_R, mode=Mode.SUBTRACT)
    extrude(amount=F1_DEPTH)


with BuildPart() as f2:
    # F0 (on Top) → F2 (new body)
    with BuildSketch(Plane.XY):
        with BuildLine():
            ThreePointArc((-6.2182208185, 10.7260156074), (-6.2800998506, 10.6899030316), (-6.3417691643, 10.6534334759))
            ThreePointArc((-6.3417691643, 10.6534334759), (-12.398132156, 0), (-6.3417691643, -10.6534334759))
            add(Edge.make_bspline(
                [(-6.1695135877, -10.7541054045), (-6.1534681256, -10.7308131066), (-6.2483131103, -10.6932731933), (-6.3417691643, -10.6534334759)],
                knots=[0.9690223671, 0.9690223671, 0.9690223671, 0.9690223671, 1, 1, 1, 1], degree=3))
            ThreePointArc((-6.1695135877, -10.7541054045), (6.2138247545, -10.7285629456), (12.398132156, 0))
            ThreePointArc((12.398132156, 0), (6.2138247545, 10.7285629456), (-6.1695135877, 10.7541054045))
            add(Edge.make_bspline(
                [(-6.1695135877, 10.7541054045), (-6.1805811207, 10.7454442386), (-6.1981722407, 10.7358034996), (-6.2182208185, 10.7260156074)],
                knots=[0.9690223671, 0.9690223671, 0.9690223671, 0.9690223671, 0.9757964746, 0.9757964746, 0.9757964746, 0.9757964746], degree=3))
        make_face()
        Circle(F0_R, mode=Mode.SUBTRACT)
    extrude(amount=F2_DEPTH)


solid = Compound([f1.part, f2.part])
